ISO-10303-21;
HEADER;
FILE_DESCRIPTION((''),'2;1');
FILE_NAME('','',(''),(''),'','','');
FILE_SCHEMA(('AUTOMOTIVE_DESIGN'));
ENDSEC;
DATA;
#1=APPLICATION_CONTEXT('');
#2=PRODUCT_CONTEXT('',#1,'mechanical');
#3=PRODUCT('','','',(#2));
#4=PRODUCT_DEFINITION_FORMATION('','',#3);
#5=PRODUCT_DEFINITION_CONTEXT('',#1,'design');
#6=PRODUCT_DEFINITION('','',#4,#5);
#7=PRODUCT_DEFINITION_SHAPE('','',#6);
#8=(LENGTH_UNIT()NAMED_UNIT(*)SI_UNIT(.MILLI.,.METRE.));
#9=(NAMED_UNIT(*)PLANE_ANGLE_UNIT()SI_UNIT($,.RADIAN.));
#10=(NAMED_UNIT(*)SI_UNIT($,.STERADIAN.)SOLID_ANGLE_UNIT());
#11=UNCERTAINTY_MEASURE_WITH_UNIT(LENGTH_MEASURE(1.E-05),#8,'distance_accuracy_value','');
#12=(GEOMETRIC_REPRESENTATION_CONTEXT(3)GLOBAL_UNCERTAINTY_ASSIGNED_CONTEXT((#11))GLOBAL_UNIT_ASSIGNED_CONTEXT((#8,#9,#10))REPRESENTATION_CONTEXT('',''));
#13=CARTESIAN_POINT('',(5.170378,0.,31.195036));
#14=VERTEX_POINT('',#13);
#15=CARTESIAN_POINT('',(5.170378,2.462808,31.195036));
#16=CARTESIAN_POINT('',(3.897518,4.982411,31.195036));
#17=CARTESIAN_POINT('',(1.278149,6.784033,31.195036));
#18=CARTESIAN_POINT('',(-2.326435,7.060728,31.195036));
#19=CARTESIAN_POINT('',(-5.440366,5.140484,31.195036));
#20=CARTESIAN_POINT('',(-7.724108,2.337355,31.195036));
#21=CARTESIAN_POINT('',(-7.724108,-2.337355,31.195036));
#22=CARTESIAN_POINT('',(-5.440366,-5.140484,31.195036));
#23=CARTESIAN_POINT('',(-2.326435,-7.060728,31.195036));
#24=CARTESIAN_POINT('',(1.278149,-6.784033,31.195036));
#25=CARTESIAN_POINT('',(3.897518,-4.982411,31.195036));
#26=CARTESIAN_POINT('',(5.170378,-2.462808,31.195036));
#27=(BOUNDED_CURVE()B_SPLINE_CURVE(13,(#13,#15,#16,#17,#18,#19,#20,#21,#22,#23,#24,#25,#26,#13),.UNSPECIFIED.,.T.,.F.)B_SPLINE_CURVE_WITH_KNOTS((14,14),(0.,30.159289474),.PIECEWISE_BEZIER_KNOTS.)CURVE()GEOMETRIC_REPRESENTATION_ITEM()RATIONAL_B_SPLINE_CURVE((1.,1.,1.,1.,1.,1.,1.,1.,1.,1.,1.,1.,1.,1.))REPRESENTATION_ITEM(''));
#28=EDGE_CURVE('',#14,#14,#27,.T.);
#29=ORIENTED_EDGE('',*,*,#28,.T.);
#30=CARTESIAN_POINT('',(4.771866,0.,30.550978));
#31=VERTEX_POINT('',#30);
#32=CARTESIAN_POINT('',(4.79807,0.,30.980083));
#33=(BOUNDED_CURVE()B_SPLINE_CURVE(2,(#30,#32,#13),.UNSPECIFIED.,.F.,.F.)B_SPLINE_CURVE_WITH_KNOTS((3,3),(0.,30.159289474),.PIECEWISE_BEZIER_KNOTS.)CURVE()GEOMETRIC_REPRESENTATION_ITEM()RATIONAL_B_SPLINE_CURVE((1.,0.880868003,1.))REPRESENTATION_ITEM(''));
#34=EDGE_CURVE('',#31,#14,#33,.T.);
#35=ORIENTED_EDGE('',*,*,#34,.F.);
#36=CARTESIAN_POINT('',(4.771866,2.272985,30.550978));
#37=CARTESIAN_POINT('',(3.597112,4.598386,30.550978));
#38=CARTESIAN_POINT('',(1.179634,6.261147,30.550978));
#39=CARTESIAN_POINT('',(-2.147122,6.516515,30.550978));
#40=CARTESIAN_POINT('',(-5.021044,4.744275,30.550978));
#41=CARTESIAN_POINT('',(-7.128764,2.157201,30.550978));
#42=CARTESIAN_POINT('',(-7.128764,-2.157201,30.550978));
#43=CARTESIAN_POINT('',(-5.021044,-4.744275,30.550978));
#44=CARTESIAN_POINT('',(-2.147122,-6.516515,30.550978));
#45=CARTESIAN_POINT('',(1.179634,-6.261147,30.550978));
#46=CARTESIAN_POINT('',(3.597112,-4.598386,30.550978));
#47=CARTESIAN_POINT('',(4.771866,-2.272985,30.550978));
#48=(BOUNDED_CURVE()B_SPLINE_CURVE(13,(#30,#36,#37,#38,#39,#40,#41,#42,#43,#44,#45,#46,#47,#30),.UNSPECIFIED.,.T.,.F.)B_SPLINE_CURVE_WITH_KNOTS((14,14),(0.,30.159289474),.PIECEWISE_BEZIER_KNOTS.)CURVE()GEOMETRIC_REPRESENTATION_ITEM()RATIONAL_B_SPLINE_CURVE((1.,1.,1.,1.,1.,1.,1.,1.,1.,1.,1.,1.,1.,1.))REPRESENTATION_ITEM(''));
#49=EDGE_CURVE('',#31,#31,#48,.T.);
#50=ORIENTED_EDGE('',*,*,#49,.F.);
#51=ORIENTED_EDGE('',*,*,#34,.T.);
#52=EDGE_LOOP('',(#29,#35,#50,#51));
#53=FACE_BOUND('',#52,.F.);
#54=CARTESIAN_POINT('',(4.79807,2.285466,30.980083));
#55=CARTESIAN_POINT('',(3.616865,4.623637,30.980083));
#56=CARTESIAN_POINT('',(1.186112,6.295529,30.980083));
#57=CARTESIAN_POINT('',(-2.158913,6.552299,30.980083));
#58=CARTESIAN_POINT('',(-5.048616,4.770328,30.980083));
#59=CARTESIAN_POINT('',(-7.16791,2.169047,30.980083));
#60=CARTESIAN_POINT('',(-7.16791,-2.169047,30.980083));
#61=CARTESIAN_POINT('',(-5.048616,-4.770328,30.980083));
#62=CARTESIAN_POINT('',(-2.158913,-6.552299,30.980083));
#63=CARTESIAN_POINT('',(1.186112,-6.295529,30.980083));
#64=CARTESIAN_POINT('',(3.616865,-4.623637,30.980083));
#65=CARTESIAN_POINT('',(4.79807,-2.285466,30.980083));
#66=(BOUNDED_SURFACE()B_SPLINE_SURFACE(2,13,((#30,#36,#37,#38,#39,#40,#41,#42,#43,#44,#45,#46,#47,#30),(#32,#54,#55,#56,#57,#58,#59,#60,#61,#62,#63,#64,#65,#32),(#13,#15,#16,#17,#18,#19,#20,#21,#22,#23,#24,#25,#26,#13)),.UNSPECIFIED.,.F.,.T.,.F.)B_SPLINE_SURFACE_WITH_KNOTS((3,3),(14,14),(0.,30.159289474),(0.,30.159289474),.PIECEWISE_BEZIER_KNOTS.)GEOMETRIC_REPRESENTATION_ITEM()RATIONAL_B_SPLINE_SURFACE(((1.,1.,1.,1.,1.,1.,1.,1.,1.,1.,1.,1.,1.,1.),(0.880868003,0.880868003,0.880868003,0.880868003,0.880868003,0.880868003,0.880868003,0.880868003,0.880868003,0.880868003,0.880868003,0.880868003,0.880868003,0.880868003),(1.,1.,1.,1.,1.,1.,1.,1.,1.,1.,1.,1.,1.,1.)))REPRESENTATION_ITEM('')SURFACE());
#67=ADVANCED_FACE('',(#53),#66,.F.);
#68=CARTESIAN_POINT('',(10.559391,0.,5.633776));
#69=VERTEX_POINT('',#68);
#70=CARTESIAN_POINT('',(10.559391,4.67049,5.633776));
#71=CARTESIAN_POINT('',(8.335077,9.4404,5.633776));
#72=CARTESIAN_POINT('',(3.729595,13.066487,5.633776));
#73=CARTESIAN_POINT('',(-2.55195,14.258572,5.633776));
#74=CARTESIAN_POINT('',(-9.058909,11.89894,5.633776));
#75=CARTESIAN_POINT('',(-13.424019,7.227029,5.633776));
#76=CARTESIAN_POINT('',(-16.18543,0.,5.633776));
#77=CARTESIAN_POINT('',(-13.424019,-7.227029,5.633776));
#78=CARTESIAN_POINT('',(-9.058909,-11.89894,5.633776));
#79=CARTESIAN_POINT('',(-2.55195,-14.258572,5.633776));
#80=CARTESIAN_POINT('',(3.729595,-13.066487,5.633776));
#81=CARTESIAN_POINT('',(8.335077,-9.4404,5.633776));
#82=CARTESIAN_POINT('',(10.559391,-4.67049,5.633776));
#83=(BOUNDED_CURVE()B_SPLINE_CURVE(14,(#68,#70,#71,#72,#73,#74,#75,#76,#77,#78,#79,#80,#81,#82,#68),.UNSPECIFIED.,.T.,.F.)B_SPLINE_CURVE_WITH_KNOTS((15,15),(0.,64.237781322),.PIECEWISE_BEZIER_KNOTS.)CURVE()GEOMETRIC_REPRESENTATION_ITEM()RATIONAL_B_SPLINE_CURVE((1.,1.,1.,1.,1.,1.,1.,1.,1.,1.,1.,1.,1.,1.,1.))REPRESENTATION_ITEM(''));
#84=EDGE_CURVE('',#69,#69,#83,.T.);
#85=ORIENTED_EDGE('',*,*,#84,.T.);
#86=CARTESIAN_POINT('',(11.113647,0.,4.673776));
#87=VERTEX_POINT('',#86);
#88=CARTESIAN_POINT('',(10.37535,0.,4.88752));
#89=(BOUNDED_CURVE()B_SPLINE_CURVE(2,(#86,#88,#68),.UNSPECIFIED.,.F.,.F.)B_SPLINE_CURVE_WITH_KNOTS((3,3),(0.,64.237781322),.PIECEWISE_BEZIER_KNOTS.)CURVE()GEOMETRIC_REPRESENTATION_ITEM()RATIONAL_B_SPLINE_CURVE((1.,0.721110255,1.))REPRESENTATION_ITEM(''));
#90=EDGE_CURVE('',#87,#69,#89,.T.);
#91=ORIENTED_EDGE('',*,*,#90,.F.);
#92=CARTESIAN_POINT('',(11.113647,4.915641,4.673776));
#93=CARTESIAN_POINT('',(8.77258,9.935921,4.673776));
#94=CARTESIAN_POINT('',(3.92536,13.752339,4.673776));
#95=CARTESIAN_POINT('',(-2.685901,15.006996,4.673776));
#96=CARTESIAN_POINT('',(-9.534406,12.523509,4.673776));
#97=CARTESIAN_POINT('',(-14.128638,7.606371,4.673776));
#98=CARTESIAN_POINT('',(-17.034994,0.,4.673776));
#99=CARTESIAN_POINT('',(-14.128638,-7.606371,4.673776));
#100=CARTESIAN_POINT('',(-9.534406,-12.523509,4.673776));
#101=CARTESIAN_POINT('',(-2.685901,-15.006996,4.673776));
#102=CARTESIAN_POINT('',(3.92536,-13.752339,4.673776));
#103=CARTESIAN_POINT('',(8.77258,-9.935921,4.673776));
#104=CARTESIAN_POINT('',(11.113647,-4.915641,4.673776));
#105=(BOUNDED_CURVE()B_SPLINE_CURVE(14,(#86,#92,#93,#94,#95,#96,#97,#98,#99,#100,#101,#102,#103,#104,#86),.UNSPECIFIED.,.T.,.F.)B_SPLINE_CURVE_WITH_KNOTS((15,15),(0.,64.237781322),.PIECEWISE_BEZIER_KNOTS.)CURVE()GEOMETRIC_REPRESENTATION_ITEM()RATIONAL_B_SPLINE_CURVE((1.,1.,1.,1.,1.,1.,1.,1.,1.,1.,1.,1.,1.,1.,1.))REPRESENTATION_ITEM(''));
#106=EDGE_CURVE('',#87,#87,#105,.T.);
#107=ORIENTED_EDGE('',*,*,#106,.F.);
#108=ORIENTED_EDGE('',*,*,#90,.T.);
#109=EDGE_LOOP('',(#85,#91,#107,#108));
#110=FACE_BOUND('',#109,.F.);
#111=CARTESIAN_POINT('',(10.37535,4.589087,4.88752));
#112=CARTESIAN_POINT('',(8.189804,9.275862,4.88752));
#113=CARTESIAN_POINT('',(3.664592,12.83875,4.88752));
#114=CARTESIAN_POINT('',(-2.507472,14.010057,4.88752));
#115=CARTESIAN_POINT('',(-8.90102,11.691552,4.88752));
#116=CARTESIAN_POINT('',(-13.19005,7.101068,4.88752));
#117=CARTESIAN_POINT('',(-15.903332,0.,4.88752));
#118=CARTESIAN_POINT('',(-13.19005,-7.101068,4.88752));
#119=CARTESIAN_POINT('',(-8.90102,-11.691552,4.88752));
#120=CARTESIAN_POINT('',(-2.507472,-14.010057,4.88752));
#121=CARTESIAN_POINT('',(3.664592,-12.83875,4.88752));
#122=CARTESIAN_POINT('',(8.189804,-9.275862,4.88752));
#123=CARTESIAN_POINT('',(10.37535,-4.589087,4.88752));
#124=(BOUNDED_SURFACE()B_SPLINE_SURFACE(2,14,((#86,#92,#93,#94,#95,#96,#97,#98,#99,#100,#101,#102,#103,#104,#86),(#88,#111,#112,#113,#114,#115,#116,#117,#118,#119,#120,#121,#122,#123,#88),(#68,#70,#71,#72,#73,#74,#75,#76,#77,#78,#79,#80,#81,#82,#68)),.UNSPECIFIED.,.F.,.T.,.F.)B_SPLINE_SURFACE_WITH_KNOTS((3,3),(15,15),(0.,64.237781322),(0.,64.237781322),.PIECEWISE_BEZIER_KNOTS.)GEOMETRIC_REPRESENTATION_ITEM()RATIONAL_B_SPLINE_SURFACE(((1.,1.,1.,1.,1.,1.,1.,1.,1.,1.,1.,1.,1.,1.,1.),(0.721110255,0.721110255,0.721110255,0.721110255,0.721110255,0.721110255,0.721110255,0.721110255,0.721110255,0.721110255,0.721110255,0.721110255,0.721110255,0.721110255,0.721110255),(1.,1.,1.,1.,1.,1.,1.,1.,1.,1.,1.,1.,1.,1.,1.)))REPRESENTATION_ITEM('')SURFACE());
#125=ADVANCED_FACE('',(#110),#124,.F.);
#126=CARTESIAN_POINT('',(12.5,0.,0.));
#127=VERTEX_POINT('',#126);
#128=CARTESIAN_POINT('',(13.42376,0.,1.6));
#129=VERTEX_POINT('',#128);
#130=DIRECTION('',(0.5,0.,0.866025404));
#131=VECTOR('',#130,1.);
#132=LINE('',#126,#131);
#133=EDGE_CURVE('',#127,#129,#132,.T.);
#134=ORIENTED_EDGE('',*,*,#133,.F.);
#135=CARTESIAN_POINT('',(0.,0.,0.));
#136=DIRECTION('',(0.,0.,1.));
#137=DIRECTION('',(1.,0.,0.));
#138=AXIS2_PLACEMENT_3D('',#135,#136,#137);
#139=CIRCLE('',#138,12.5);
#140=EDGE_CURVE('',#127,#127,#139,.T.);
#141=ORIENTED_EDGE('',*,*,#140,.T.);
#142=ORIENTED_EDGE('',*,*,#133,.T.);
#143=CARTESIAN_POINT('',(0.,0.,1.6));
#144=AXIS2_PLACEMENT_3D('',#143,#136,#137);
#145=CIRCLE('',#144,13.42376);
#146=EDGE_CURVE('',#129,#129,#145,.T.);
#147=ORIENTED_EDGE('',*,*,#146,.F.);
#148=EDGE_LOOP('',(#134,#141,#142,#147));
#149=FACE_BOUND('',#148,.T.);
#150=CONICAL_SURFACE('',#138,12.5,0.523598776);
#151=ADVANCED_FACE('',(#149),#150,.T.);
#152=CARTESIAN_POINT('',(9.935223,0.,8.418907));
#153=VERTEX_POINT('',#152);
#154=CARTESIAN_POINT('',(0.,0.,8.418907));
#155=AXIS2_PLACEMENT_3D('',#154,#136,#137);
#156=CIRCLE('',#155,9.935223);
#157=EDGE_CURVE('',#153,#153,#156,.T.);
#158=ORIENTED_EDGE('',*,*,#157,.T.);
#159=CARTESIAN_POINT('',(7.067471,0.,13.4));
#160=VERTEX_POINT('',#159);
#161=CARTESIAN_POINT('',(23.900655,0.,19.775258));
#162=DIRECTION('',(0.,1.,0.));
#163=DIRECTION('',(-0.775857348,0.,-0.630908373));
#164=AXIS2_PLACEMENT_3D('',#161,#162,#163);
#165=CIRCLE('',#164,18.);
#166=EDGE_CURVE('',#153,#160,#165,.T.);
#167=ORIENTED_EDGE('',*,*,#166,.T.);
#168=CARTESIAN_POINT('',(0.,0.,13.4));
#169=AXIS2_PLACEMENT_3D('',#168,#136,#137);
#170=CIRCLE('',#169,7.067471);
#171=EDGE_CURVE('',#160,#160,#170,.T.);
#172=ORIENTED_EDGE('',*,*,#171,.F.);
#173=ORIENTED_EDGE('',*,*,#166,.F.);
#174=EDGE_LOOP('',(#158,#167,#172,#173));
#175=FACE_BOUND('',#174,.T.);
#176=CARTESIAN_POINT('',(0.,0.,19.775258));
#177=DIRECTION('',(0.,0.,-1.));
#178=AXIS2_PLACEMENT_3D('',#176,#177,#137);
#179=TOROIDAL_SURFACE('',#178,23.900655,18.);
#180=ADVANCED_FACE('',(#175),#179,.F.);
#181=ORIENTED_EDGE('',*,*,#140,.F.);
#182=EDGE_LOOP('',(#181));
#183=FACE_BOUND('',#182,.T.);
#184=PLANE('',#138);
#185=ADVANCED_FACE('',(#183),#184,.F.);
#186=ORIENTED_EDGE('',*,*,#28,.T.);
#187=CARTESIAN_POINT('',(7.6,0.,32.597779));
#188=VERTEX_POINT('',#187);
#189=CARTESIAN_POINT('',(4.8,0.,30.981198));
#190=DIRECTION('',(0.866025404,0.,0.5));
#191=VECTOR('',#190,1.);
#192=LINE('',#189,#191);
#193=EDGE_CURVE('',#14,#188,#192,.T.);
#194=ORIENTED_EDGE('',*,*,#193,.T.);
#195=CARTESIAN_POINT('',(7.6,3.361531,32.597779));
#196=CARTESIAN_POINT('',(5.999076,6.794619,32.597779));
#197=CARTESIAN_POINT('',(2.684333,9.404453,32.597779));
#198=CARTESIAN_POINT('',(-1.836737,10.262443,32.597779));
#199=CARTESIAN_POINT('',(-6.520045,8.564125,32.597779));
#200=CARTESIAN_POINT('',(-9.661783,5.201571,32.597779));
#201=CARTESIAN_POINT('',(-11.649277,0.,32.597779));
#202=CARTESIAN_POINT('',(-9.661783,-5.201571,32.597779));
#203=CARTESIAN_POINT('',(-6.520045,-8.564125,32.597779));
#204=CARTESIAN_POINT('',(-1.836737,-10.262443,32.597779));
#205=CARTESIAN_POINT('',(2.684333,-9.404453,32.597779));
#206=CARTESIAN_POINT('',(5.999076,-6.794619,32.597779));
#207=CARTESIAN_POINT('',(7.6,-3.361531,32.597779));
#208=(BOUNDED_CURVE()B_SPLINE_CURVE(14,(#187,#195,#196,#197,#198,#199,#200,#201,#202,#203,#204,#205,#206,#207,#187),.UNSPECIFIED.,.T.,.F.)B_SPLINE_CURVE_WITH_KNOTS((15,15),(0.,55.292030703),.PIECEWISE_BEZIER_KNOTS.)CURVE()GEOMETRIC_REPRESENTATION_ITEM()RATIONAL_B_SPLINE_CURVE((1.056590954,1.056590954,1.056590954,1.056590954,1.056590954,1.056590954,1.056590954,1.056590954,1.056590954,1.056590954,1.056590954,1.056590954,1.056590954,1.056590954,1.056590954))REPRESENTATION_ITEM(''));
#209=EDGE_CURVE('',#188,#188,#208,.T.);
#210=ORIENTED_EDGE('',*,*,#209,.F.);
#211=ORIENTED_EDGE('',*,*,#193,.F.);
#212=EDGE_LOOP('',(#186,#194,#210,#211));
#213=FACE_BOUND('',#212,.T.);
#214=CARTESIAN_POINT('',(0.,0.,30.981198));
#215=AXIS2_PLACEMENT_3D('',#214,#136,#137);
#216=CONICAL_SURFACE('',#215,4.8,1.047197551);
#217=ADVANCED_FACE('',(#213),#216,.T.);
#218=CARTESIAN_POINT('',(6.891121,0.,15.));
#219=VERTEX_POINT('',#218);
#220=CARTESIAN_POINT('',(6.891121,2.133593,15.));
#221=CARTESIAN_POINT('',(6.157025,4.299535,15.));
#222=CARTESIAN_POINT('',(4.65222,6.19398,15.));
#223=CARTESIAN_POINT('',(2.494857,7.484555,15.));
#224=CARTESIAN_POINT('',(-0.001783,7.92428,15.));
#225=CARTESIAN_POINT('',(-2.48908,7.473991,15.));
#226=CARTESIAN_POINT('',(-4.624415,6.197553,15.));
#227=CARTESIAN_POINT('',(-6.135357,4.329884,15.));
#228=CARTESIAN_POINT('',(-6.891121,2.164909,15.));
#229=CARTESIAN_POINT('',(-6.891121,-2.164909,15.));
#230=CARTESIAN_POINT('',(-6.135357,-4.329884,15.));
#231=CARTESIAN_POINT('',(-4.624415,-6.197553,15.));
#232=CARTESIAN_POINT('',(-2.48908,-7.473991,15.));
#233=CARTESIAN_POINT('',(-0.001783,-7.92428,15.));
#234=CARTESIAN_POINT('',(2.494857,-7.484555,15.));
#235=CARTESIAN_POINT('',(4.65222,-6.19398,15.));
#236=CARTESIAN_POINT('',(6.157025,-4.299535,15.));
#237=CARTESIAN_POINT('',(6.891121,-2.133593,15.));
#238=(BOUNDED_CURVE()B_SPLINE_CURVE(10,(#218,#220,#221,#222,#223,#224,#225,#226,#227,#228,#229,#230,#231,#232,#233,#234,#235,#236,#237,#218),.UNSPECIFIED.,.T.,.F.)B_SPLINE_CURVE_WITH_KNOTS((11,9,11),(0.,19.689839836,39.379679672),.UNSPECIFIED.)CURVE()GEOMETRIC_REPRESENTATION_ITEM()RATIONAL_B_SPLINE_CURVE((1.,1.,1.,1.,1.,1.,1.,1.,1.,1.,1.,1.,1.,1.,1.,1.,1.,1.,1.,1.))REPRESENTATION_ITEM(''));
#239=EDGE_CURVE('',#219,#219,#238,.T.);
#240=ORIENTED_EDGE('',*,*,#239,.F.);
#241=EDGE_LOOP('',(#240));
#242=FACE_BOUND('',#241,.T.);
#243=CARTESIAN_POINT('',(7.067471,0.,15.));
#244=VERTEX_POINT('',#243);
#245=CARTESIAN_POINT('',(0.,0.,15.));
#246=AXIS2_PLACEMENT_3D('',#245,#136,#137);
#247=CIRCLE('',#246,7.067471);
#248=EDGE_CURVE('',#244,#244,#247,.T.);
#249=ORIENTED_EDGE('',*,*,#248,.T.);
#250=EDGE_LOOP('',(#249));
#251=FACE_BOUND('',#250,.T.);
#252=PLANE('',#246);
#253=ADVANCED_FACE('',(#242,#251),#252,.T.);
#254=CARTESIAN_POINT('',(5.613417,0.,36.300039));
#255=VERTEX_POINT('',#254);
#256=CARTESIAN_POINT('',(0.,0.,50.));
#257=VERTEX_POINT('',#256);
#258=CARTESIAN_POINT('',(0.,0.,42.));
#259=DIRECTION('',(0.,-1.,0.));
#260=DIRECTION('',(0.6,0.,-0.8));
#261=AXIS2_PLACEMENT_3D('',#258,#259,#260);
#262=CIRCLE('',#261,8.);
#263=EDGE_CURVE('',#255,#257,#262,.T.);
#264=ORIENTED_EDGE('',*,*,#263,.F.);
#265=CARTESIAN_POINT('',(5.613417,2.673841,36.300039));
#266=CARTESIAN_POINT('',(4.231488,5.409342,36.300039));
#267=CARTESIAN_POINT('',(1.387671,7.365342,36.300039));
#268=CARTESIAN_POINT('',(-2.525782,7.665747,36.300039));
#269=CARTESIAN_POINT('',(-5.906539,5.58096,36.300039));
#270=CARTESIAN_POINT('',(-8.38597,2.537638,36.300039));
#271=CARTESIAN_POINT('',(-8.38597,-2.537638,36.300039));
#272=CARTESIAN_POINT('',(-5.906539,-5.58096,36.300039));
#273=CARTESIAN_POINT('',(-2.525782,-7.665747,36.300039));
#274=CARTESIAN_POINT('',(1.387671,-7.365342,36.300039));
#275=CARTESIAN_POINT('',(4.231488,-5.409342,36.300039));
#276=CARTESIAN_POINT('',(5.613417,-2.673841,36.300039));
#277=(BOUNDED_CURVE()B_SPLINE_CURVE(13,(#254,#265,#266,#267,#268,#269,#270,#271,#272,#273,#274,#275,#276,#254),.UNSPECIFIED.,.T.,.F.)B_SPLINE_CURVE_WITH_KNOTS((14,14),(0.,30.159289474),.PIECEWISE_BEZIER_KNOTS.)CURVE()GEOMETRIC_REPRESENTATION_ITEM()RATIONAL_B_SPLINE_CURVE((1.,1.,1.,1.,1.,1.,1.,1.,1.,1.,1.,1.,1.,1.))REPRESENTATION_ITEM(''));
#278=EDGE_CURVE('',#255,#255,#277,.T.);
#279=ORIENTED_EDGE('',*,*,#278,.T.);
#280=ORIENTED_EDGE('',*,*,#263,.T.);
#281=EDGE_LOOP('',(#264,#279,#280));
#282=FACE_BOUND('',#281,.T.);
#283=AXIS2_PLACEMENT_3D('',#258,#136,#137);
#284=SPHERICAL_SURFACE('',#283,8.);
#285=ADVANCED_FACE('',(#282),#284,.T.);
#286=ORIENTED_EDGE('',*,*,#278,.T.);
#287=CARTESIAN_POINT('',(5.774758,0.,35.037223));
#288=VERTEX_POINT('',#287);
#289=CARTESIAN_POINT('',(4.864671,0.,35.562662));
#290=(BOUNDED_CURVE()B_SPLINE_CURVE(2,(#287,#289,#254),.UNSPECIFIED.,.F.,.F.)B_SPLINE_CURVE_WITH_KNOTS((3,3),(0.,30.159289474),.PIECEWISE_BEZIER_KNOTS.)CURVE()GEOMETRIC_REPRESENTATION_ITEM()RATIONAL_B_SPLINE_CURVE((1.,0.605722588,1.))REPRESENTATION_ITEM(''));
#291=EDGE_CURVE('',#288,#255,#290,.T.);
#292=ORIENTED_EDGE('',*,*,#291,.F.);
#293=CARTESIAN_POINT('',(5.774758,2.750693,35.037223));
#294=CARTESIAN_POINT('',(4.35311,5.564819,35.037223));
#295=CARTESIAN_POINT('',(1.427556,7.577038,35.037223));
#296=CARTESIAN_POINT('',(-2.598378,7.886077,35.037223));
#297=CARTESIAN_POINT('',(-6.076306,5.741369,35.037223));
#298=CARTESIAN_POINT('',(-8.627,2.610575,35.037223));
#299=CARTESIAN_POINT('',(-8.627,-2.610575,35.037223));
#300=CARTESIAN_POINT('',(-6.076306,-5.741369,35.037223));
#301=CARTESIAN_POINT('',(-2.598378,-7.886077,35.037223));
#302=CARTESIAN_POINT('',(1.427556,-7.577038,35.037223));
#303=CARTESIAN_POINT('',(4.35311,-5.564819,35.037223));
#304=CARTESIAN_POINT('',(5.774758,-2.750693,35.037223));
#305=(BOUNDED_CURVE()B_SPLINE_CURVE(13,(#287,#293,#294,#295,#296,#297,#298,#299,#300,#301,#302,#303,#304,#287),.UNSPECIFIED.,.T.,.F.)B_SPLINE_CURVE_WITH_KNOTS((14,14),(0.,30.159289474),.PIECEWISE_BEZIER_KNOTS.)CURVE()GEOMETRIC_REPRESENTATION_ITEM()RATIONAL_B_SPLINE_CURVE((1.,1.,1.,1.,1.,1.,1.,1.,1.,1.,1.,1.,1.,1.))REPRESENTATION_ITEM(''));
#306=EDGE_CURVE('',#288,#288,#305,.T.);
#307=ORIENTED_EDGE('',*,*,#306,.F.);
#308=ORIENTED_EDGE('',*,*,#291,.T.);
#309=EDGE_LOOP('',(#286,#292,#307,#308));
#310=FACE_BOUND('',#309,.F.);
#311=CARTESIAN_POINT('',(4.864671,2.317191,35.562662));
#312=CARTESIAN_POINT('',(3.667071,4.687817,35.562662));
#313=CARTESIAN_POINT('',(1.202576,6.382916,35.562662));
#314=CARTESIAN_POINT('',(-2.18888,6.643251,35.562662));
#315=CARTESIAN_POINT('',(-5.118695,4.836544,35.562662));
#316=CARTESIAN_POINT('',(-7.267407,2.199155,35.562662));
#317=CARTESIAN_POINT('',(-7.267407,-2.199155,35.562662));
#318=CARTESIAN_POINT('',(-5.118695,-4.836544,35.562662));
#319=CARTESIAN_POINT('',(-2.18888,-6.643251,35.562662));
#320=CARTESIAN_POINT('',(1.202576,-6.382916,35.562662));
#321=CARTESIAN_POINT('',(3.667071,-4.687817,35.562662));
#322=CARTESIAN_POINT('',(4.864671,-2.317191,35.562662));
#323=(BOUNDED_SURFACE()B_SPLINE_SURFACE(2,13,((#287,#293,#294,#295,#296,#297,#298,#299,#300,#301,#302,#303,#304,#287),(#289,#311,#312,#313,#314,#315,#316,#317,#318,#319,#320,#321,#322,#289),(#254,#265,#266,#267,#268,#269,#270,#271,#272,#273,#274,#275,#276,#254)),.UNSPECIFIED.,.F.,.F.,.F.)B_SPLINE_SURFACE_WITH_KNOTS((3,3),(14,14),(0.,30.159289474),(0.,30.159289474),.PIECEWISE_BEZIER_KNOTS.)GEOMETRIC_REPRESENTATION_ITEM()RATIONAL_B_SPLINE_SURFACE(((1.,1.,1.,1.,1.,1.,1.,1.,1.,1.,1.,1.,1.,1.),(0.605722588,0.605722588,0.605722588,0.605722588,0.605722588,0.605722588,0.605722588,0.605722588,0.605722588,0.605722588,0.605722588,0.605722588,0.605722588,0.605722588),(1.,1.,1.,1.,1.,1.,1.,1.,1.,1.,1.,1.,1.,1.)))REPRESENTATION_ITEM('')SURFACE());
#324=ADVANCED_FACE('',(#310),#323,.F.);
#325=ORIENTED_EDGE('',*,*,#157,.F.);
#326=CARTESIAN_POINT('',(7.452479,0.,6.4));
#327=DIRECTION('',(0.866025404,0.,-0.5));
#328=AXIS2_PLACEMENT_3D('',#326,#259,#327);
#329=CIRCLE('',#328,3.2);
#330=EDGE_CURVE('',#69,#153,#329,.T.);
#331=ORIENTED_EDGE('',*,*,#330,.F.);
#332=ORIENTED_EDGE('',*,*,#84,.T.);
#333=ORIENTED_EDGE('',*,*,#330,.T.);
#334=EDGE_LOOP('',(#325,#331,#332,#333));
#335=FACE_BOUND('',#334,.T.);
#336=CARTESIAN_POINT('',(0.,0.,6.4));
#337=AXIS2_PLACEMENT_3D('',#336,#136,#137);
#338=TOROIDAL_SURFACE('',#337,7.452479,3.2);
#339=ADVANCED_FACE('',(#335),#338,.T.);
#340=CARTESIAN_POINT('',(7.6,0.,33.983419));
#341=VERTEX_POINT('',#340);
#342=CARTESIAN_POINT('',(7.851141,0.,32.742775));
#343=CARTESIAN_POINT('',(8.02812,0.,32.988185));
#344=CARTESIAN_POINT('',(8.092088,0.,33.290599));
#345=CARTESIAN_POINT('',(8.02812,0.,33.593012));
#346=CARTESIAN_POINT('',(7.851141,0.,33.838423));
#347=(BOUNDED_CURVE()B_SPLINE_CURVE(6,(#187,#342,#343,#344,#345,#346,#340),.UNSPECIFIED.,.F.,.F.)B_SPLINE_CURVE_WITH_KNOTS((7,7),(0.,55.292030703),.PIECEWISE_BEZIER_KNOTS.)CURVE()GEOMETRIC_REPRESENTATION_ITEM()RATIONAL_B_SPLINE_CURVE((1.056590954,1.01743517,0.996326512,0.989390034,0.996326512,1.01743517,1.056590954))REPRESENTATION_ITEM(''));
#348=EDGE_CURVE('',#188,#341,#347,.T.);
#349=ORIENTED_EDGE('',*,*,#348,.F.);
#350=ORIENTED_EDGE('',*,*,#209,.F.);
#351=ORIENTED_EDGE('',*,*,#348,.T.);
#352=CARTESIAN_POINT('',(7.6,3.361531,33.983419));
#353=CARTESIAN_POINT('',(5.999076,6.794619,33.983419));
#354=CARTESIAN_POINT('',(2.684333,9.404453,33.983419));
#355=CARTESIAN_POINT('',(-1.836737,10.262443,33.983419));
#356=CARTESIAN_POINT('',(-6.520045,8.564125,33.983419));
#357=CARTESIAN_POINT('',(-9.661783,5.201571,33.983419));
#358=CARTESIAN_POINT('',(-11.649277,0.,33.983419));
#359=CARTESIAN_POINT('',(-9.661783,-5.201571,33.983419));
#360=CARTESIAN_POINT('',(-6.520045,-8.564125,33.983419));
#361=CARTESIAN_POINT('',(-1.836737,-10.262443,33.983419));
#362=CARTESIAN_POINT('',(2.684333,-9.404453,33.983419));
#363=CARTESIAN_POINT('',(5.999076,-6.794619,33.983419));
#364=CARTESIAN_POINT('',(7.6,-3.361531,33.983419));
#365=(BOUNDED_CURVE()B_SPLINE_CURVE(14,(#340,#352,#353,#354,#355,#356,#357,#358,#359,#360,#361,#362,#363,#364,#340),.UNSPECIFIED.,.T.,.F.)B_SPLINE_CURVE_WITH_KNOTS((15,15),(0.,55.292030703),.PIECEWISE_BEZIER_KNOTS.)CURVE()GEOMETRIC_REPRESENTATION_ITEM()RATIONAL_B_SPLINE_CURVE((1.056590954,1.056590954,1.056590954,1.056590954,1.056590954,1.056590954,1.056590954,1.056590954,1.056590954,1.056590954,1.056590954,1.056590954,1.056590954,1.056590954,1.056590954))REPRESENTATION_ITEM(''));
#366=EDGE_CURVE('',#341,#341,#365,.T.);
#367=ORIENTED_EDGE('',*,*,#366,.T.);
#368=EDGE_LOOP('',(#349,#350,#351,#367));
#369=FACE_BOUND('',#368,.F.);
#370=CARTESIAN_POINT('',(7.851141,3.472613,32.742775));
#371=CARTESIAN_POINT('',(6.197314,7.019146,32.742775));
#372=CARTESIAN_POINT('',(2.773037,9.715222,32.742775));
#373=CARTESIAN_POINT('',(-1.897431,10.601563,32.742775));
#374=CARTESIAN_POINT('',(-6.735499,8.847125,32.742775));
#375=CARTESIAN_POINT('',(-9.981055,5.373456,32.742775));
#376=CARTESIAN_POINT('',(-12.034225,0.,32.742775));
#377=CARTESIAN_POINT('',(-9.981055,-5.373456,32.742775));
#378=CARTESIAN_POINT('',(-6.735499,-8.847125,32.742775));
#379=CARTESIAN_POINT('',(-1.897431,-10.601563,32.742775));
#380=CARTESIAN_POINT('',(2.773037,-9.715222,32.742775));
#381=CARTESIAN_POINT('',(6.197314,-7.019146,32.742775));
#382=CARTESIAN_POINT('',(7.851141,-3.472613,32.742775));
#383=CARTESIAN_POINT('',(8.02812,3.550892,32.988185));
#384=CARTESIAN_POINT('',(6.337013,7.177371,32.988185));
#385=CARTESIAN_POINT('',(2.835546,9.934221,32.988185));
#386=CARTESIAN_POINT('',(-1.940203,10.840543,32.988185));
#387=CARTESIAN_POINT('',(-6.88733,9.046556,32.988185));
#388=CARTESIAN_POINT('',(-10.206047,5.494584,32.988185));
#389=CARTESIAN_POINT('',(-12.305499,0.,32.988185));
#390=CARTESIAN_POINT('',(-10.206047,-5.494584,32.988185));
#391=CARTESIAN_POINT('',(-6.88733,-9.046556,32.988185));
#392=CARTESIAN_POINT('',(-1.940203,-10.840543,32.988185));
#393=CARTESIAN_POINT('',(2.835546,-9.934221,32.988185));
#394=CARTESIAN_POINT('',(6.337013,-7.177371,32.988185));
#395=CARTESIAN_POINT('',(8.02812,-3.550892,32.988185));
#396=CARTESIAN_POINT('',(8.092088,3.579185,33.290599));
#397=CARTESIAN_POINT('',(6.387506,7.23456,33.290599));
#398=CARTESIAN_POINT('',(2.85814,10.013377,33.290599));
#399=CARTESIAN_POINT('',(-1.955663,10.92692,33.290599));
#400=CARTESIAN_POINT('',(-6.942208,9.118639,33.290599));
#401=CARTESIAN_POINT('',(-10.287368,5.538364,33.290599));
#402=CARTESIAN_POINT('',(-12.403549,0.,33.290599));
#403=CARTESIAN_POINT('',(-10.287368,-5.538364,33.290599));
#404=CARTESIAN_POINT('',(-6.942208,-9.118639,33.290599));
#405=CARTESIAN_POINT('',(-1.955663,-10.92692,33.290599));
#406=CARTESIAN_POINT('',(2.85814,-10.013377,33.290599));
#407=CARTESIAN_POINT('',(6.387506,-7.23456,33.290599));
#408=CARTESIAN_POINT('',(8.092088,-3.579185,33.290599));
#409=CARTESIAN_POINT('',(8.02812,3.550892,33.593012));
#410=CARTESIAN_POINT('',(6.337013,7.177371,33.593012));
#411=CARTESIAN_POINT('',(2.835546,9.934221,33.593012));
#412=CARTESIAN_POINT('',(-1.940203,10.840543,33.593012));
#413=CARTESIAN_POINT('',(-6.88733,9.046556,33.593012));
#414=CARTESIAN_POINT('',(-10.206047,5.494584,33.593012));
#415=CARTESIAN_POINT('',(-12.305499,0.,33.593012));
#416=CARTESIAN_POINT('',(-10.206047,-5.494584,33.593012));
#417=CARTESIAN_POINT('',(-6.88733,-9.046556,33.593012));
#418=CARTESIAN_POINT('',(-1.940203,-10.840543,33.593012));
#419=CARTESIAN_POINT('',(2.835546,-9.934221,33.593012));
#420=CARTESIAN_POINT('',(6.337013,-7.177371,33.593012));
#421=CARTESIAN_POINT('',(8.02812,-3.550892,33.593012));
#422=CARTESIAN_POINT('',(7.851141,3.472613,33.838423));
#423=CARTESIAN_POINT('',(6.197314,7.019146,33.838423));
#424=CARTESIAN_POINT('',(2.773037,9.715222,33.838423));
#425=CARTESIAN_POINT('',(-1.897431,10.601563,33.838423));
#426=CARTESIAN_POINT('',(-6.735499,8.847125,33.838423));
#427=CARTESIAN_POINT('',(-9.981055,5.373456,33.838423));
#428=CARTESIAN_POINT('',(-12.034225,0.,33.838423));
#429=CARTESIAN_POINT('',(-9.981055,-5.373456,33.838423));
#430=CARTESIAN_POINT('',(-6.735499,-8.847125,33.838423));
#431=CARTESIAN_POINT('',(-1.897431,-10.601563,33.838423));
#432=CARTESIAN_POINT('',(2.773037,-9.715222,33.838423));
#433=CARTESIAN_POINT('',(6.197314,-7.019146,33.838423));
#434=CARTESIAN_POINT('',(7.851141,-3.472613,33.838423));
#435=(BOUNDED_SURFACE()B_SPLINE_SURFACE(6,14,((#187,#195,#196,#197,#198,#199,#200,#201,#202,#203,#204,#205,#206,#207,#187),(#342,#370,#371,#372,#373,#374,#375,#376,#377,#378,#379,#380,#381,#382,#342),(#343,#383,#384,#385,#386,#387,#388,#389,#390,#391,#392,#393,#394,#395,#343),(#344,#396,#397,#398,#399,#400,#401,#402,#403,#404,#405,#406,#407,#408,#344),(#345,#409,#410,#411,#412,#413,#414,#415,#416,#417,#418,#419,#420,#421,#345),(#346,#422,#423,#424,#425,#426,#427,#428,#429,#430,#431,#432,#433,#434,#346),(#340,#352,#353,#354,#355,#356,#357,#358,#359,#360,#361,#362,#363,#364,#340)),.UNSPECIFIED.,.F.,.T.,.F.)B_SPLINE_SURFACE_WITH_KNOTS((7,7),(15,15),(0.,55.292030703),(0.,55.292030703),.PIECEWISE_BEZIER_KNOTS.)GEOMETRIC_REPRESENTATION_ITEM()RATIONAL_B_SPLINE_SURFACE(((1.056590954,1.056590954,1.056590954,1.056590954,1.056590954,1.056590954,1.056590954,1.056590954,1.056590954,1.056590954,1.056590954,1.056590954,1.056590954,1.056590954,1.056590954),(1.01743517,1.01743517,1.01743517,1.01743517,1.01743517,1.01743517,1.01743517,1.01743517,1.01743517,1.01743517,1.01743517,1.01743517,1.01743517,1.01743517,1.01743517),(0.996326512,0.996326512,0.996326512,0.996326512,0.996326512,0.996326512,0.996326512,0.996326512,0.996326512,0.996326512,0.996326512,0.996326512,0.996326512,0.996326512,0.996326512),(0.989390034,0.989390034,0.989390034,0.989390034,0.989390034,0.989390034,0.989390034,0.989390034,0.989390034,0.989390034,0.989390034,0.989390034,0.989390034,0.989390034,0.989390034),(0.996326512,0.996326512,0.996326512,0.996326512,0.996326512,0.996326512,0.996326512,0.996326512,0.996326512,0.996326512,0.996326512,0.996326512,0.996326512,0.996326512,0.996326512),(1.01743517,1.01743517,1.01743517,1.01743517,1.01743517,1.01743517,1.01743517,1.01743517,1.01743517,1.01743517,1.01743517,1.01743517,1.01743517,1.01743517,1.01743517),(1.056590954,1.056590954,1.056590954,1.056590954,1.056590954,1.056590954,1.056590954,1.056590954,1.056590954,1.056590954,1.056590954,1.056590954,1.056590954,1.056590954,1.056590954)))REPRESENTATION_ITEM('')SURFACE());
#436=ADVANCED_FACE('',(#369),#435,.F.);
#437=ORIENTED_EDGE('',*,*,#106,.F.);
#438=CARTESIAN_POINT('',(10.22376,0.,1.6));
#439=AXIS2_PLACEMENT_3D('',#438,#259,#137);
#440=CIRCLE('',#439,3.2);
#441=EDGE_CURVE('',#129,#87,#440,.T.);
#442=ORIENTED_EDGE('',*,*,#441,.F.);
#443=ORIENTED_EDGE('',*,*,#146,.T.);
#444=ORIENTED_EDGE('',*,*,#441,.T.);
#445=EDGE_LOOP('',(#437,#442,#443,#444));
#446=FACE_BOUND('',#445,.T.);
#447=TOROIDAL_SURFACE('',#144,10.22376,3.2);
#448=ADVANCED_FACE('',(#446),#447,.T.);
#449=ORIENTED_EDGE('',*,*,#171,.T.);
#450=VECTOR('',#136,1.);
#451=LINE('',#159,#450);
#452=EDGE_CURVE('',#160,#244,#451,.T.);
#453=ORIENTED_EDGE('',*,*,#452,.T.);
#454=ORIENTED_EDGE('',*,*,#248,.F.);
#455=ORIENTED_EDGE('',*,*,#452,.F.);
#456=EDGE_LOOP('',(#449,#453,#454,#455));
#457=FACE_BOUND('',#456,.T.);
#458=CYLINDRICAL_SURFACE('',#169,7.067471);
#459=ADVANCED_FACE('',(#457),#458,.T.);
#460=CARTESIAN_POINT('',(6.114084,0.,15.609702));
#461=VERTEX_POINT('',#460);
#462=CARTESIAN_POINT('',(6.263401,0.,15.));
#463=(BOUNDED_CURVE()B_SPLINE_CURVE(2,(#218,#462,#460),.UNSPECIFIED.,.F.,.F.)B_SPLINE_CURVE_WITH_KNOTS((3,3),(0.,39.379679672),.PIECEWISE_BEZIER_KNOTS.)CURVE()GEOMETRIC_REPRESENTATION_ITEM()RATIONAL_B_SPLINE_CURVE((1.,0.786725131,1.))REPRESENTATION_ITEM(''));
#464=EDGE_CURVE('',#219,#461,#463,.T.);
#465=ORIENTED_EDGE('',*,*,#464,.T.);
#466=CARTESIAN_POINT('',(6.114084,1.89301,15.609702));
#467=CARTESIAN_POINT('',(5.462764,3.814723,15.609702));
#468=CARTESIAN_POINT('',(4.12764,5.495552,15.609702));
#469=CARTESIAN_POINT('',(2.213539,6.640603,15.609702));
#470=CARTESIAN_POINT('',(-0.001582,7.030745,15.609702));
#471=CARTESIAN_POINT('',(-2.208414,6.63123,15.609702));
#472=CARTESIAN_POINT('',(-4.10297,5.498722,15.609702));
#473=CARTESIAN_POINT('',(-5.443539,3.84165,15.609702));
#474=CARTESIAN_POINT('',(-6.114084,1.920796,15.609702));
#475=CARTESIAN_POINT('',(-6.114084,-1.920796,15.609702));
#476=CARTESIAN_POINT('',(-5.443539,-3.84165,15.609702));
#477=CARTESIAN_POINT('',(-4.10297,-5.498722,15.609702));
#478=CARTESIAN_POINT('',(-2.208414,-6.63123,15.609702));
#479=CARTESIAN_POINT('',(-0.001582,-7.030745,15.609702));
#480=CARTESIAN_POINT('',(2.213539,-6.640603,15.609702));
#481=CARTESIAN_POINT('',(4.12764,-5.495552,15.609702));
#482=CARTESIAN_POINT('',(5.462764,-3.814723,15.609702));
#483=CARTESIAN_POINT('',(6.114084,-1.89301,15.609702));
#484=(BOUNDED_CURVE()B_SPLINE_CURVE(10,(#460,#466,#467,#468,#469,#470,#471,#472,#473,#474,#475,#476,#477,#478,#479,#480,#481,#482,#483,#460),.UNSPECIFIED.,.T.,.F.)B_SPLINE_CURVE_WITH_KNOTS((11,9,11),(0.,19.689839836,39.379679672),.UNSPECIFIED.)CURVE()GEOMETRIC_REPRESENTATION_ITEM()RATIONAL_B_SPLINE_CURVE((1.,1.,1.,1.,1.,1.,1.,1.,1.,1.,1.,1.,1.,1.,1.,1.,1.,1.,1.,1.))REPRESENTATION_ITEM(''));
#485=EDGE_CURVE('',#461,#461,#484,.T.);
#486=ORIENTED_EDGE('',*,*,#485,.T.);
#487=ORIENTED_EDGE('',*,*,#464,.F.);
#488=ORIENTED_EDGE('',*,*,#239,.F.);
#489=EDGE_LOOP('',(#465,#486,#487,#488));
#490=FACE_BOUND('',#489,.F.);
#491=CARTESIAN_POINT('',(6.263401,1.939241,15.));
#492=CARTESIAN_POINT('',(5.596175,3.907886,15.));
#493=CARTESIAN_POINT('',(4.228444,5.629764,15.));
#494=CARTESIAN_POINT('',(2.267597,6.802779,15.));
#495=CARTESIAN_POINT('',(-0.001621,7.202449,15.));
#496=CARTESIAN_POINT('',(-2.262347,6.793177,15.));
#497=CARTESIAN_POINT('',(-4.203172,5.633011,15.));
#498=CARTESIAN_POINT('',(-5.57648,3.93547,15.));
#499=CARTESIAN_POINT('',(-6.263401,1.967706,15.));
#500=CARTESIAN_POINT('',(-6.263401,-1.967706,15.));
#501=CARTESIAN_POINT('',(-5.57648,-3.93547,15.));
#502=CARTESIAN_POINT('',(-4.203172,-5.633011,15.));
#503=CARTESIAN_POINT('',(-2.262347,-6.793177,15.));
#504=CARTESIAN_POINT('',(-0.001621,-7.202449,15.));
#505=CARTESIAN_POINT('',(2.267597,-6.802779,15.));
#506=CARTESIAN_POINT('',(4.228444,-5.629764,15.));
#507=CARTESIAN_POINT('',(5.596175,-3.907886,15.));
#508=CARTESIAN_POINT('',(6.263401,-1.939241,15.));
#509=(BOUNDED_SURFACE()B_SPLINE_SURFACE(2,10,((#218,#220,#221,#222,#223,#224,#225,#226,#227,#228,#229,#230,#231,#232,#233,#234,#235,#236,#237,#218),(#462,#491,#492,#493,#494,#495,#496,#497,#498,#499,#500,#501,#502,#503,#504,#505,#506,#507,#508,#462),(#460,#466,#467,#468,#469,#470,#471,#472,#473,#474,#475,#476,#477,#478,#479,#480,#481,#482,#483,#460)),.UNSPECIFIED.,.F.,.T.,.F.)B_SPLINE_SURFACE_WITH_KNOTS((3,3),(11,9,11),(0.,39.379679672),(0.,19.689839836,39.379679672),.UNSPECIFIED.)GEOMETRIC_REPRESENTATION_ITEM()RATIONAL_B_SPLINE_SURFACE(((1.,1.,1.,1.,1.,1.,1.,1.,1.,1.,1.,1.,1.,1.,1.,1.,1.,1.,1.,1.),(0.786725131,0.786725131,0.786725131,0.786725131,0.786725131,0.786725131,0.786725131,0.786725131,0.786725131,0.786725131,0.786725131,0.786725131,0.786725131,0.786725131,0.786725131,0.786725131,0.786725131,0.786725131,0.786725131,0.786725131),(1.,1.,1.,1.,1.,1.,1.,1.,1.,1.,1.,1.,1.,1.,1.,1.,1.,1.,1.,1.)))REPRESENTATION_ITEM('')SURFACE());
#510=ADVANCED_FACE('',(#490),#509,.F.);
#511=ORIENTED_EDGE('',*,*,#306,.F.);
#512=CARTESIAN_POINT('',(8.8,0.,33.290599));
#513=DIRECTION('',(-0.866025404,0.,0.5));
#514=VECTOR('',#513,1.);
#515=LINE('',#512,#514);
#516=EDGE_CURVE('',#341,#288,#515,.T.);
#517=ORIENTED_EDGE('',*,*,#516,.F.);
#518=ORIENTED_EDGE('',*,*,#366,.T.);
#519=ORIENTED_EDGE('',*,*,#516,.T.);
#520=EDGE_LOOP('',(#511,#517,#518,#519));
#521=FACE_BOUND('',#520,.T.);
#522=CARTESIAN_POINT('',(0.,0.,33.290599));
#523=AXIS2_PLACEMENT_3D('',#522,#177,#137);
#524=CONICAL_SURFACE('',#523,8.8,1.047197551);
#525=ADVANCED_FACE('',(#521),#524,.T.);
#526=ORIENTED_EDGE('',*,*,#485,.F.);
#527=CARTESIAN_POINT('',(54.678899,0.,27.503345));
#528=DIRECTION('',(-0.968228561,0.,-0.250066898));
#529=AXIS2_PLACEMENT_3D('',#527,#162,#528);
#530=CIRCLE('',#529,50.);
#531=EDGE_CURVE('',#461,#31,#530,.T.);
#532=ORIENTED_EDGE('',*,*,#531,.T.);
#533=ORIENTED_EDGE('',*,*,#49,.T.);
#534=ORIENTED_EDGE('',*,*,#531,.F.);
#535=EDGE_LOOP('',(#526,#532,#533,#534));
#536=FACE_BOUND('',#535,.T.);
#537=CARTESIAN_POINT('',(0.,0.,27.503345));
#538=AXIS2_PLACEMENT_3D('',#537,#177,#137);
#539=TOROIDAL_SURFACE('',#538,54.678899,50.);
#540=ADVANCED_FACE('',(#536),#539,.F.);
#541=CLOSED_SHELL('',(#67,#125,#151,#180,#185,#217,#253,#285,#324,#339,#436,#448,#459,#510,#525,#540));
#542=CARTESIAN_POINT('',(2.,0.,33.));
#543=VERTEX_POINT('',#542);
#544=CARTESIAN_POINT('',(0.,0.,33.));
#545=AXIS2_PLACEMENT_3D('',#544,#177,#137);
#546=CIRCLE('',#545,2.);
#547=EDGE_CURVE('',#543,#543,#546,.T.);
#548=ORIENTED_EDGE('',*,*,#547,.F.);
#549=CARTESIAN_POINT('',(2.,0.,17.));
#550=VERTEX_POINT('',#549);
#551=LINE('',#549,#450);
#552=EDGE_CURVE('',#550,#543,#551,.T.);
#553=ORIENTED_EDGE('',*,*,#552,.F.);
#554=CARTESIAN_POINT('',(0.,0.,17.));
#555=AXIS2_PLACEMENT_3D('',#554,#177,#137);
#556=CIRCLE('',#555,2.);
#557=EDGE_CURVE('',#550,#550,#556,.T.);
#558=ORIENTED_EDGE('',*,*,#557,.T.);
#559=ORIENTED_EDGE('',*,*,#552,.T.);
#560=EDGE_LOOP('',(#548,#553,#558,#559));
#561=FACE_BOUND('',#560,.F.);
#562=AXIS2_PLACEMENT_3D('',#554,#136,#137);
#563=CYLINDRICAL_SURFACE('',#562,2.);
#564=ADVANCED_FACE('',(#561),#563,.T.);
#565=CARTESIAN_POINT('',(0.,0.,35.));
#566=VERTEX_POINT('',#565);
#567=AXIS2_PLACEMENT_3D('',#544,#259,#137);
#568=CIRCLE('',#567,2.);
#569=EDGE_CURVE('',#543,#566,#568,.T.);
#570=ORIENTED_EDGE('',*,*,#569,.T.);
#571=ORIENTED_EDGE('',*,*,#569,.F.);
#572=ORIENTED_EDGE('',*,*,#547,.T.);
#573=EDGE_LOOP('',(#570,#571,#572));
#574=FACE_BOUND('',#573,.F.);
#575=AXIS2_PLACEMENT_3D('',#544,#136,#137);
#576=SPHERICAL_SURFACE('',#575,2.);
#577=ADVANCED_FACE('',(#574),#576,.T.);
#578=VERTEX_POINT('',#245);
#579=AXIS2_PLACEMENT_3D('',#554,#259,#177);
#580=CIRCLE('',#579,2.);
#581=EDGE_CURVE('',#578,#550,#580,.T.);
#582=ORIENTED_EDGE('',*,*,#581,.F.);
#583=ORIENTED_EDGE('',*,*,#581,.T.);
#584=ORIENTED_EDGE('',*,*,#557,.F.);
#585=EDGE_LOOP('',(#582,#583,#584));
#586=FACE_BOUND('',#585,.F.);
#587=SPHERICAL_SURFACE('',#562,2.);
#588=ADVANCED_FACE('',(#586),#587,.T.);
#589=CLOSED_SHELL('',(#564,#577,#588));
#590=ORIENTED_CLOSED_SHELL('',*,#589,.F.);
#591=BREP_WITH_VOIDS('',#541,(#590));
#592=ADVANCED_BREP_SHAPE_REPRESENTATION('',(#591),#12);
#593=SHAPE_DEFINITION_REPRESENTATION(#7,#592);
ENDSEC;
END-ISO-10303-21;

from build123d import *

# Parameters (mm, degrees)
F4_R = 0.8


with BuildPart() as f1:
    # F0 (on Front) → F1 (revolve)
    with BuildSketch(Plane.XZ):
        with BuildLine():
            Line((0, 50), (0, 0))
            Line((0, 0), (12.5, 0))
            Line((12.5, 0), (13.4237604307, 1.6))
            ThreePointArc((13.4237604307, 1.6), (12.4865021305, 3.8627416998), (10.2237604307, 4.8))
            ThreePointArc((10.2237604307, 4.8), (10.6423562149, 6.6543309617), (9.9352226521, 8.4189067948))
            ThreePointArc((9.9352226521, 8.4189067948), (8.3012473311, 10.7942507229), (7.0674706771, 13.4))
            Line((7.0674706771, 13.4), (7.0674706771, 15))
            Line((7.0674706771, 15), (6.2674706771, 15))
            ThreePointArc((6.2674706771, 15), (4.8883699527, 22.9313383604), (4.8, 30.9811978465))
            Line((4.8, 30.9811978465), (8.8, 33.2905989232))
            Line((8.8, 33.2905989232), (4.8, 35.6))
            ThreePointArc((4.8, 35.6), (7.5894663844, 44.5298221281), (0, 50))
        make_face()
    revolve(axis=Axis((0, 0, 47.5), (0, 0, 1)))

    # F2 (on Front) → F3 (revolve, cut)
    with BuildSketch(Plane.XZ):
        with BuildLine():
            ThreePointArc((0, 15), (1.4142135624, 15.5857864376), (2, 17))
            Line((2, 17), (2, 33))
            ThreePointArc((2, 33), (1.4142135624, 34.4142135624), (0, 35))
            Line((0, 35), (0, 15))
        make_face()
    revolve(axis=Axis((0, 0, 25), (0, 0, -1)), mode=Mode.SUBTRACT)

    # F4
    f4_edges = [f1.edges().sort_by_distance(p)[0] for p in [
        (-8.8, 0, 33.290599),
        (-4.8, 0, 30.981198),
        (-4.8, 0, 35.6),
        (-6.267471, 0, 15),
        (-10.22376, 0, 4.8),
    ]]
    fillet(f4_edges, radius=F4_R)


solid = f1.part
